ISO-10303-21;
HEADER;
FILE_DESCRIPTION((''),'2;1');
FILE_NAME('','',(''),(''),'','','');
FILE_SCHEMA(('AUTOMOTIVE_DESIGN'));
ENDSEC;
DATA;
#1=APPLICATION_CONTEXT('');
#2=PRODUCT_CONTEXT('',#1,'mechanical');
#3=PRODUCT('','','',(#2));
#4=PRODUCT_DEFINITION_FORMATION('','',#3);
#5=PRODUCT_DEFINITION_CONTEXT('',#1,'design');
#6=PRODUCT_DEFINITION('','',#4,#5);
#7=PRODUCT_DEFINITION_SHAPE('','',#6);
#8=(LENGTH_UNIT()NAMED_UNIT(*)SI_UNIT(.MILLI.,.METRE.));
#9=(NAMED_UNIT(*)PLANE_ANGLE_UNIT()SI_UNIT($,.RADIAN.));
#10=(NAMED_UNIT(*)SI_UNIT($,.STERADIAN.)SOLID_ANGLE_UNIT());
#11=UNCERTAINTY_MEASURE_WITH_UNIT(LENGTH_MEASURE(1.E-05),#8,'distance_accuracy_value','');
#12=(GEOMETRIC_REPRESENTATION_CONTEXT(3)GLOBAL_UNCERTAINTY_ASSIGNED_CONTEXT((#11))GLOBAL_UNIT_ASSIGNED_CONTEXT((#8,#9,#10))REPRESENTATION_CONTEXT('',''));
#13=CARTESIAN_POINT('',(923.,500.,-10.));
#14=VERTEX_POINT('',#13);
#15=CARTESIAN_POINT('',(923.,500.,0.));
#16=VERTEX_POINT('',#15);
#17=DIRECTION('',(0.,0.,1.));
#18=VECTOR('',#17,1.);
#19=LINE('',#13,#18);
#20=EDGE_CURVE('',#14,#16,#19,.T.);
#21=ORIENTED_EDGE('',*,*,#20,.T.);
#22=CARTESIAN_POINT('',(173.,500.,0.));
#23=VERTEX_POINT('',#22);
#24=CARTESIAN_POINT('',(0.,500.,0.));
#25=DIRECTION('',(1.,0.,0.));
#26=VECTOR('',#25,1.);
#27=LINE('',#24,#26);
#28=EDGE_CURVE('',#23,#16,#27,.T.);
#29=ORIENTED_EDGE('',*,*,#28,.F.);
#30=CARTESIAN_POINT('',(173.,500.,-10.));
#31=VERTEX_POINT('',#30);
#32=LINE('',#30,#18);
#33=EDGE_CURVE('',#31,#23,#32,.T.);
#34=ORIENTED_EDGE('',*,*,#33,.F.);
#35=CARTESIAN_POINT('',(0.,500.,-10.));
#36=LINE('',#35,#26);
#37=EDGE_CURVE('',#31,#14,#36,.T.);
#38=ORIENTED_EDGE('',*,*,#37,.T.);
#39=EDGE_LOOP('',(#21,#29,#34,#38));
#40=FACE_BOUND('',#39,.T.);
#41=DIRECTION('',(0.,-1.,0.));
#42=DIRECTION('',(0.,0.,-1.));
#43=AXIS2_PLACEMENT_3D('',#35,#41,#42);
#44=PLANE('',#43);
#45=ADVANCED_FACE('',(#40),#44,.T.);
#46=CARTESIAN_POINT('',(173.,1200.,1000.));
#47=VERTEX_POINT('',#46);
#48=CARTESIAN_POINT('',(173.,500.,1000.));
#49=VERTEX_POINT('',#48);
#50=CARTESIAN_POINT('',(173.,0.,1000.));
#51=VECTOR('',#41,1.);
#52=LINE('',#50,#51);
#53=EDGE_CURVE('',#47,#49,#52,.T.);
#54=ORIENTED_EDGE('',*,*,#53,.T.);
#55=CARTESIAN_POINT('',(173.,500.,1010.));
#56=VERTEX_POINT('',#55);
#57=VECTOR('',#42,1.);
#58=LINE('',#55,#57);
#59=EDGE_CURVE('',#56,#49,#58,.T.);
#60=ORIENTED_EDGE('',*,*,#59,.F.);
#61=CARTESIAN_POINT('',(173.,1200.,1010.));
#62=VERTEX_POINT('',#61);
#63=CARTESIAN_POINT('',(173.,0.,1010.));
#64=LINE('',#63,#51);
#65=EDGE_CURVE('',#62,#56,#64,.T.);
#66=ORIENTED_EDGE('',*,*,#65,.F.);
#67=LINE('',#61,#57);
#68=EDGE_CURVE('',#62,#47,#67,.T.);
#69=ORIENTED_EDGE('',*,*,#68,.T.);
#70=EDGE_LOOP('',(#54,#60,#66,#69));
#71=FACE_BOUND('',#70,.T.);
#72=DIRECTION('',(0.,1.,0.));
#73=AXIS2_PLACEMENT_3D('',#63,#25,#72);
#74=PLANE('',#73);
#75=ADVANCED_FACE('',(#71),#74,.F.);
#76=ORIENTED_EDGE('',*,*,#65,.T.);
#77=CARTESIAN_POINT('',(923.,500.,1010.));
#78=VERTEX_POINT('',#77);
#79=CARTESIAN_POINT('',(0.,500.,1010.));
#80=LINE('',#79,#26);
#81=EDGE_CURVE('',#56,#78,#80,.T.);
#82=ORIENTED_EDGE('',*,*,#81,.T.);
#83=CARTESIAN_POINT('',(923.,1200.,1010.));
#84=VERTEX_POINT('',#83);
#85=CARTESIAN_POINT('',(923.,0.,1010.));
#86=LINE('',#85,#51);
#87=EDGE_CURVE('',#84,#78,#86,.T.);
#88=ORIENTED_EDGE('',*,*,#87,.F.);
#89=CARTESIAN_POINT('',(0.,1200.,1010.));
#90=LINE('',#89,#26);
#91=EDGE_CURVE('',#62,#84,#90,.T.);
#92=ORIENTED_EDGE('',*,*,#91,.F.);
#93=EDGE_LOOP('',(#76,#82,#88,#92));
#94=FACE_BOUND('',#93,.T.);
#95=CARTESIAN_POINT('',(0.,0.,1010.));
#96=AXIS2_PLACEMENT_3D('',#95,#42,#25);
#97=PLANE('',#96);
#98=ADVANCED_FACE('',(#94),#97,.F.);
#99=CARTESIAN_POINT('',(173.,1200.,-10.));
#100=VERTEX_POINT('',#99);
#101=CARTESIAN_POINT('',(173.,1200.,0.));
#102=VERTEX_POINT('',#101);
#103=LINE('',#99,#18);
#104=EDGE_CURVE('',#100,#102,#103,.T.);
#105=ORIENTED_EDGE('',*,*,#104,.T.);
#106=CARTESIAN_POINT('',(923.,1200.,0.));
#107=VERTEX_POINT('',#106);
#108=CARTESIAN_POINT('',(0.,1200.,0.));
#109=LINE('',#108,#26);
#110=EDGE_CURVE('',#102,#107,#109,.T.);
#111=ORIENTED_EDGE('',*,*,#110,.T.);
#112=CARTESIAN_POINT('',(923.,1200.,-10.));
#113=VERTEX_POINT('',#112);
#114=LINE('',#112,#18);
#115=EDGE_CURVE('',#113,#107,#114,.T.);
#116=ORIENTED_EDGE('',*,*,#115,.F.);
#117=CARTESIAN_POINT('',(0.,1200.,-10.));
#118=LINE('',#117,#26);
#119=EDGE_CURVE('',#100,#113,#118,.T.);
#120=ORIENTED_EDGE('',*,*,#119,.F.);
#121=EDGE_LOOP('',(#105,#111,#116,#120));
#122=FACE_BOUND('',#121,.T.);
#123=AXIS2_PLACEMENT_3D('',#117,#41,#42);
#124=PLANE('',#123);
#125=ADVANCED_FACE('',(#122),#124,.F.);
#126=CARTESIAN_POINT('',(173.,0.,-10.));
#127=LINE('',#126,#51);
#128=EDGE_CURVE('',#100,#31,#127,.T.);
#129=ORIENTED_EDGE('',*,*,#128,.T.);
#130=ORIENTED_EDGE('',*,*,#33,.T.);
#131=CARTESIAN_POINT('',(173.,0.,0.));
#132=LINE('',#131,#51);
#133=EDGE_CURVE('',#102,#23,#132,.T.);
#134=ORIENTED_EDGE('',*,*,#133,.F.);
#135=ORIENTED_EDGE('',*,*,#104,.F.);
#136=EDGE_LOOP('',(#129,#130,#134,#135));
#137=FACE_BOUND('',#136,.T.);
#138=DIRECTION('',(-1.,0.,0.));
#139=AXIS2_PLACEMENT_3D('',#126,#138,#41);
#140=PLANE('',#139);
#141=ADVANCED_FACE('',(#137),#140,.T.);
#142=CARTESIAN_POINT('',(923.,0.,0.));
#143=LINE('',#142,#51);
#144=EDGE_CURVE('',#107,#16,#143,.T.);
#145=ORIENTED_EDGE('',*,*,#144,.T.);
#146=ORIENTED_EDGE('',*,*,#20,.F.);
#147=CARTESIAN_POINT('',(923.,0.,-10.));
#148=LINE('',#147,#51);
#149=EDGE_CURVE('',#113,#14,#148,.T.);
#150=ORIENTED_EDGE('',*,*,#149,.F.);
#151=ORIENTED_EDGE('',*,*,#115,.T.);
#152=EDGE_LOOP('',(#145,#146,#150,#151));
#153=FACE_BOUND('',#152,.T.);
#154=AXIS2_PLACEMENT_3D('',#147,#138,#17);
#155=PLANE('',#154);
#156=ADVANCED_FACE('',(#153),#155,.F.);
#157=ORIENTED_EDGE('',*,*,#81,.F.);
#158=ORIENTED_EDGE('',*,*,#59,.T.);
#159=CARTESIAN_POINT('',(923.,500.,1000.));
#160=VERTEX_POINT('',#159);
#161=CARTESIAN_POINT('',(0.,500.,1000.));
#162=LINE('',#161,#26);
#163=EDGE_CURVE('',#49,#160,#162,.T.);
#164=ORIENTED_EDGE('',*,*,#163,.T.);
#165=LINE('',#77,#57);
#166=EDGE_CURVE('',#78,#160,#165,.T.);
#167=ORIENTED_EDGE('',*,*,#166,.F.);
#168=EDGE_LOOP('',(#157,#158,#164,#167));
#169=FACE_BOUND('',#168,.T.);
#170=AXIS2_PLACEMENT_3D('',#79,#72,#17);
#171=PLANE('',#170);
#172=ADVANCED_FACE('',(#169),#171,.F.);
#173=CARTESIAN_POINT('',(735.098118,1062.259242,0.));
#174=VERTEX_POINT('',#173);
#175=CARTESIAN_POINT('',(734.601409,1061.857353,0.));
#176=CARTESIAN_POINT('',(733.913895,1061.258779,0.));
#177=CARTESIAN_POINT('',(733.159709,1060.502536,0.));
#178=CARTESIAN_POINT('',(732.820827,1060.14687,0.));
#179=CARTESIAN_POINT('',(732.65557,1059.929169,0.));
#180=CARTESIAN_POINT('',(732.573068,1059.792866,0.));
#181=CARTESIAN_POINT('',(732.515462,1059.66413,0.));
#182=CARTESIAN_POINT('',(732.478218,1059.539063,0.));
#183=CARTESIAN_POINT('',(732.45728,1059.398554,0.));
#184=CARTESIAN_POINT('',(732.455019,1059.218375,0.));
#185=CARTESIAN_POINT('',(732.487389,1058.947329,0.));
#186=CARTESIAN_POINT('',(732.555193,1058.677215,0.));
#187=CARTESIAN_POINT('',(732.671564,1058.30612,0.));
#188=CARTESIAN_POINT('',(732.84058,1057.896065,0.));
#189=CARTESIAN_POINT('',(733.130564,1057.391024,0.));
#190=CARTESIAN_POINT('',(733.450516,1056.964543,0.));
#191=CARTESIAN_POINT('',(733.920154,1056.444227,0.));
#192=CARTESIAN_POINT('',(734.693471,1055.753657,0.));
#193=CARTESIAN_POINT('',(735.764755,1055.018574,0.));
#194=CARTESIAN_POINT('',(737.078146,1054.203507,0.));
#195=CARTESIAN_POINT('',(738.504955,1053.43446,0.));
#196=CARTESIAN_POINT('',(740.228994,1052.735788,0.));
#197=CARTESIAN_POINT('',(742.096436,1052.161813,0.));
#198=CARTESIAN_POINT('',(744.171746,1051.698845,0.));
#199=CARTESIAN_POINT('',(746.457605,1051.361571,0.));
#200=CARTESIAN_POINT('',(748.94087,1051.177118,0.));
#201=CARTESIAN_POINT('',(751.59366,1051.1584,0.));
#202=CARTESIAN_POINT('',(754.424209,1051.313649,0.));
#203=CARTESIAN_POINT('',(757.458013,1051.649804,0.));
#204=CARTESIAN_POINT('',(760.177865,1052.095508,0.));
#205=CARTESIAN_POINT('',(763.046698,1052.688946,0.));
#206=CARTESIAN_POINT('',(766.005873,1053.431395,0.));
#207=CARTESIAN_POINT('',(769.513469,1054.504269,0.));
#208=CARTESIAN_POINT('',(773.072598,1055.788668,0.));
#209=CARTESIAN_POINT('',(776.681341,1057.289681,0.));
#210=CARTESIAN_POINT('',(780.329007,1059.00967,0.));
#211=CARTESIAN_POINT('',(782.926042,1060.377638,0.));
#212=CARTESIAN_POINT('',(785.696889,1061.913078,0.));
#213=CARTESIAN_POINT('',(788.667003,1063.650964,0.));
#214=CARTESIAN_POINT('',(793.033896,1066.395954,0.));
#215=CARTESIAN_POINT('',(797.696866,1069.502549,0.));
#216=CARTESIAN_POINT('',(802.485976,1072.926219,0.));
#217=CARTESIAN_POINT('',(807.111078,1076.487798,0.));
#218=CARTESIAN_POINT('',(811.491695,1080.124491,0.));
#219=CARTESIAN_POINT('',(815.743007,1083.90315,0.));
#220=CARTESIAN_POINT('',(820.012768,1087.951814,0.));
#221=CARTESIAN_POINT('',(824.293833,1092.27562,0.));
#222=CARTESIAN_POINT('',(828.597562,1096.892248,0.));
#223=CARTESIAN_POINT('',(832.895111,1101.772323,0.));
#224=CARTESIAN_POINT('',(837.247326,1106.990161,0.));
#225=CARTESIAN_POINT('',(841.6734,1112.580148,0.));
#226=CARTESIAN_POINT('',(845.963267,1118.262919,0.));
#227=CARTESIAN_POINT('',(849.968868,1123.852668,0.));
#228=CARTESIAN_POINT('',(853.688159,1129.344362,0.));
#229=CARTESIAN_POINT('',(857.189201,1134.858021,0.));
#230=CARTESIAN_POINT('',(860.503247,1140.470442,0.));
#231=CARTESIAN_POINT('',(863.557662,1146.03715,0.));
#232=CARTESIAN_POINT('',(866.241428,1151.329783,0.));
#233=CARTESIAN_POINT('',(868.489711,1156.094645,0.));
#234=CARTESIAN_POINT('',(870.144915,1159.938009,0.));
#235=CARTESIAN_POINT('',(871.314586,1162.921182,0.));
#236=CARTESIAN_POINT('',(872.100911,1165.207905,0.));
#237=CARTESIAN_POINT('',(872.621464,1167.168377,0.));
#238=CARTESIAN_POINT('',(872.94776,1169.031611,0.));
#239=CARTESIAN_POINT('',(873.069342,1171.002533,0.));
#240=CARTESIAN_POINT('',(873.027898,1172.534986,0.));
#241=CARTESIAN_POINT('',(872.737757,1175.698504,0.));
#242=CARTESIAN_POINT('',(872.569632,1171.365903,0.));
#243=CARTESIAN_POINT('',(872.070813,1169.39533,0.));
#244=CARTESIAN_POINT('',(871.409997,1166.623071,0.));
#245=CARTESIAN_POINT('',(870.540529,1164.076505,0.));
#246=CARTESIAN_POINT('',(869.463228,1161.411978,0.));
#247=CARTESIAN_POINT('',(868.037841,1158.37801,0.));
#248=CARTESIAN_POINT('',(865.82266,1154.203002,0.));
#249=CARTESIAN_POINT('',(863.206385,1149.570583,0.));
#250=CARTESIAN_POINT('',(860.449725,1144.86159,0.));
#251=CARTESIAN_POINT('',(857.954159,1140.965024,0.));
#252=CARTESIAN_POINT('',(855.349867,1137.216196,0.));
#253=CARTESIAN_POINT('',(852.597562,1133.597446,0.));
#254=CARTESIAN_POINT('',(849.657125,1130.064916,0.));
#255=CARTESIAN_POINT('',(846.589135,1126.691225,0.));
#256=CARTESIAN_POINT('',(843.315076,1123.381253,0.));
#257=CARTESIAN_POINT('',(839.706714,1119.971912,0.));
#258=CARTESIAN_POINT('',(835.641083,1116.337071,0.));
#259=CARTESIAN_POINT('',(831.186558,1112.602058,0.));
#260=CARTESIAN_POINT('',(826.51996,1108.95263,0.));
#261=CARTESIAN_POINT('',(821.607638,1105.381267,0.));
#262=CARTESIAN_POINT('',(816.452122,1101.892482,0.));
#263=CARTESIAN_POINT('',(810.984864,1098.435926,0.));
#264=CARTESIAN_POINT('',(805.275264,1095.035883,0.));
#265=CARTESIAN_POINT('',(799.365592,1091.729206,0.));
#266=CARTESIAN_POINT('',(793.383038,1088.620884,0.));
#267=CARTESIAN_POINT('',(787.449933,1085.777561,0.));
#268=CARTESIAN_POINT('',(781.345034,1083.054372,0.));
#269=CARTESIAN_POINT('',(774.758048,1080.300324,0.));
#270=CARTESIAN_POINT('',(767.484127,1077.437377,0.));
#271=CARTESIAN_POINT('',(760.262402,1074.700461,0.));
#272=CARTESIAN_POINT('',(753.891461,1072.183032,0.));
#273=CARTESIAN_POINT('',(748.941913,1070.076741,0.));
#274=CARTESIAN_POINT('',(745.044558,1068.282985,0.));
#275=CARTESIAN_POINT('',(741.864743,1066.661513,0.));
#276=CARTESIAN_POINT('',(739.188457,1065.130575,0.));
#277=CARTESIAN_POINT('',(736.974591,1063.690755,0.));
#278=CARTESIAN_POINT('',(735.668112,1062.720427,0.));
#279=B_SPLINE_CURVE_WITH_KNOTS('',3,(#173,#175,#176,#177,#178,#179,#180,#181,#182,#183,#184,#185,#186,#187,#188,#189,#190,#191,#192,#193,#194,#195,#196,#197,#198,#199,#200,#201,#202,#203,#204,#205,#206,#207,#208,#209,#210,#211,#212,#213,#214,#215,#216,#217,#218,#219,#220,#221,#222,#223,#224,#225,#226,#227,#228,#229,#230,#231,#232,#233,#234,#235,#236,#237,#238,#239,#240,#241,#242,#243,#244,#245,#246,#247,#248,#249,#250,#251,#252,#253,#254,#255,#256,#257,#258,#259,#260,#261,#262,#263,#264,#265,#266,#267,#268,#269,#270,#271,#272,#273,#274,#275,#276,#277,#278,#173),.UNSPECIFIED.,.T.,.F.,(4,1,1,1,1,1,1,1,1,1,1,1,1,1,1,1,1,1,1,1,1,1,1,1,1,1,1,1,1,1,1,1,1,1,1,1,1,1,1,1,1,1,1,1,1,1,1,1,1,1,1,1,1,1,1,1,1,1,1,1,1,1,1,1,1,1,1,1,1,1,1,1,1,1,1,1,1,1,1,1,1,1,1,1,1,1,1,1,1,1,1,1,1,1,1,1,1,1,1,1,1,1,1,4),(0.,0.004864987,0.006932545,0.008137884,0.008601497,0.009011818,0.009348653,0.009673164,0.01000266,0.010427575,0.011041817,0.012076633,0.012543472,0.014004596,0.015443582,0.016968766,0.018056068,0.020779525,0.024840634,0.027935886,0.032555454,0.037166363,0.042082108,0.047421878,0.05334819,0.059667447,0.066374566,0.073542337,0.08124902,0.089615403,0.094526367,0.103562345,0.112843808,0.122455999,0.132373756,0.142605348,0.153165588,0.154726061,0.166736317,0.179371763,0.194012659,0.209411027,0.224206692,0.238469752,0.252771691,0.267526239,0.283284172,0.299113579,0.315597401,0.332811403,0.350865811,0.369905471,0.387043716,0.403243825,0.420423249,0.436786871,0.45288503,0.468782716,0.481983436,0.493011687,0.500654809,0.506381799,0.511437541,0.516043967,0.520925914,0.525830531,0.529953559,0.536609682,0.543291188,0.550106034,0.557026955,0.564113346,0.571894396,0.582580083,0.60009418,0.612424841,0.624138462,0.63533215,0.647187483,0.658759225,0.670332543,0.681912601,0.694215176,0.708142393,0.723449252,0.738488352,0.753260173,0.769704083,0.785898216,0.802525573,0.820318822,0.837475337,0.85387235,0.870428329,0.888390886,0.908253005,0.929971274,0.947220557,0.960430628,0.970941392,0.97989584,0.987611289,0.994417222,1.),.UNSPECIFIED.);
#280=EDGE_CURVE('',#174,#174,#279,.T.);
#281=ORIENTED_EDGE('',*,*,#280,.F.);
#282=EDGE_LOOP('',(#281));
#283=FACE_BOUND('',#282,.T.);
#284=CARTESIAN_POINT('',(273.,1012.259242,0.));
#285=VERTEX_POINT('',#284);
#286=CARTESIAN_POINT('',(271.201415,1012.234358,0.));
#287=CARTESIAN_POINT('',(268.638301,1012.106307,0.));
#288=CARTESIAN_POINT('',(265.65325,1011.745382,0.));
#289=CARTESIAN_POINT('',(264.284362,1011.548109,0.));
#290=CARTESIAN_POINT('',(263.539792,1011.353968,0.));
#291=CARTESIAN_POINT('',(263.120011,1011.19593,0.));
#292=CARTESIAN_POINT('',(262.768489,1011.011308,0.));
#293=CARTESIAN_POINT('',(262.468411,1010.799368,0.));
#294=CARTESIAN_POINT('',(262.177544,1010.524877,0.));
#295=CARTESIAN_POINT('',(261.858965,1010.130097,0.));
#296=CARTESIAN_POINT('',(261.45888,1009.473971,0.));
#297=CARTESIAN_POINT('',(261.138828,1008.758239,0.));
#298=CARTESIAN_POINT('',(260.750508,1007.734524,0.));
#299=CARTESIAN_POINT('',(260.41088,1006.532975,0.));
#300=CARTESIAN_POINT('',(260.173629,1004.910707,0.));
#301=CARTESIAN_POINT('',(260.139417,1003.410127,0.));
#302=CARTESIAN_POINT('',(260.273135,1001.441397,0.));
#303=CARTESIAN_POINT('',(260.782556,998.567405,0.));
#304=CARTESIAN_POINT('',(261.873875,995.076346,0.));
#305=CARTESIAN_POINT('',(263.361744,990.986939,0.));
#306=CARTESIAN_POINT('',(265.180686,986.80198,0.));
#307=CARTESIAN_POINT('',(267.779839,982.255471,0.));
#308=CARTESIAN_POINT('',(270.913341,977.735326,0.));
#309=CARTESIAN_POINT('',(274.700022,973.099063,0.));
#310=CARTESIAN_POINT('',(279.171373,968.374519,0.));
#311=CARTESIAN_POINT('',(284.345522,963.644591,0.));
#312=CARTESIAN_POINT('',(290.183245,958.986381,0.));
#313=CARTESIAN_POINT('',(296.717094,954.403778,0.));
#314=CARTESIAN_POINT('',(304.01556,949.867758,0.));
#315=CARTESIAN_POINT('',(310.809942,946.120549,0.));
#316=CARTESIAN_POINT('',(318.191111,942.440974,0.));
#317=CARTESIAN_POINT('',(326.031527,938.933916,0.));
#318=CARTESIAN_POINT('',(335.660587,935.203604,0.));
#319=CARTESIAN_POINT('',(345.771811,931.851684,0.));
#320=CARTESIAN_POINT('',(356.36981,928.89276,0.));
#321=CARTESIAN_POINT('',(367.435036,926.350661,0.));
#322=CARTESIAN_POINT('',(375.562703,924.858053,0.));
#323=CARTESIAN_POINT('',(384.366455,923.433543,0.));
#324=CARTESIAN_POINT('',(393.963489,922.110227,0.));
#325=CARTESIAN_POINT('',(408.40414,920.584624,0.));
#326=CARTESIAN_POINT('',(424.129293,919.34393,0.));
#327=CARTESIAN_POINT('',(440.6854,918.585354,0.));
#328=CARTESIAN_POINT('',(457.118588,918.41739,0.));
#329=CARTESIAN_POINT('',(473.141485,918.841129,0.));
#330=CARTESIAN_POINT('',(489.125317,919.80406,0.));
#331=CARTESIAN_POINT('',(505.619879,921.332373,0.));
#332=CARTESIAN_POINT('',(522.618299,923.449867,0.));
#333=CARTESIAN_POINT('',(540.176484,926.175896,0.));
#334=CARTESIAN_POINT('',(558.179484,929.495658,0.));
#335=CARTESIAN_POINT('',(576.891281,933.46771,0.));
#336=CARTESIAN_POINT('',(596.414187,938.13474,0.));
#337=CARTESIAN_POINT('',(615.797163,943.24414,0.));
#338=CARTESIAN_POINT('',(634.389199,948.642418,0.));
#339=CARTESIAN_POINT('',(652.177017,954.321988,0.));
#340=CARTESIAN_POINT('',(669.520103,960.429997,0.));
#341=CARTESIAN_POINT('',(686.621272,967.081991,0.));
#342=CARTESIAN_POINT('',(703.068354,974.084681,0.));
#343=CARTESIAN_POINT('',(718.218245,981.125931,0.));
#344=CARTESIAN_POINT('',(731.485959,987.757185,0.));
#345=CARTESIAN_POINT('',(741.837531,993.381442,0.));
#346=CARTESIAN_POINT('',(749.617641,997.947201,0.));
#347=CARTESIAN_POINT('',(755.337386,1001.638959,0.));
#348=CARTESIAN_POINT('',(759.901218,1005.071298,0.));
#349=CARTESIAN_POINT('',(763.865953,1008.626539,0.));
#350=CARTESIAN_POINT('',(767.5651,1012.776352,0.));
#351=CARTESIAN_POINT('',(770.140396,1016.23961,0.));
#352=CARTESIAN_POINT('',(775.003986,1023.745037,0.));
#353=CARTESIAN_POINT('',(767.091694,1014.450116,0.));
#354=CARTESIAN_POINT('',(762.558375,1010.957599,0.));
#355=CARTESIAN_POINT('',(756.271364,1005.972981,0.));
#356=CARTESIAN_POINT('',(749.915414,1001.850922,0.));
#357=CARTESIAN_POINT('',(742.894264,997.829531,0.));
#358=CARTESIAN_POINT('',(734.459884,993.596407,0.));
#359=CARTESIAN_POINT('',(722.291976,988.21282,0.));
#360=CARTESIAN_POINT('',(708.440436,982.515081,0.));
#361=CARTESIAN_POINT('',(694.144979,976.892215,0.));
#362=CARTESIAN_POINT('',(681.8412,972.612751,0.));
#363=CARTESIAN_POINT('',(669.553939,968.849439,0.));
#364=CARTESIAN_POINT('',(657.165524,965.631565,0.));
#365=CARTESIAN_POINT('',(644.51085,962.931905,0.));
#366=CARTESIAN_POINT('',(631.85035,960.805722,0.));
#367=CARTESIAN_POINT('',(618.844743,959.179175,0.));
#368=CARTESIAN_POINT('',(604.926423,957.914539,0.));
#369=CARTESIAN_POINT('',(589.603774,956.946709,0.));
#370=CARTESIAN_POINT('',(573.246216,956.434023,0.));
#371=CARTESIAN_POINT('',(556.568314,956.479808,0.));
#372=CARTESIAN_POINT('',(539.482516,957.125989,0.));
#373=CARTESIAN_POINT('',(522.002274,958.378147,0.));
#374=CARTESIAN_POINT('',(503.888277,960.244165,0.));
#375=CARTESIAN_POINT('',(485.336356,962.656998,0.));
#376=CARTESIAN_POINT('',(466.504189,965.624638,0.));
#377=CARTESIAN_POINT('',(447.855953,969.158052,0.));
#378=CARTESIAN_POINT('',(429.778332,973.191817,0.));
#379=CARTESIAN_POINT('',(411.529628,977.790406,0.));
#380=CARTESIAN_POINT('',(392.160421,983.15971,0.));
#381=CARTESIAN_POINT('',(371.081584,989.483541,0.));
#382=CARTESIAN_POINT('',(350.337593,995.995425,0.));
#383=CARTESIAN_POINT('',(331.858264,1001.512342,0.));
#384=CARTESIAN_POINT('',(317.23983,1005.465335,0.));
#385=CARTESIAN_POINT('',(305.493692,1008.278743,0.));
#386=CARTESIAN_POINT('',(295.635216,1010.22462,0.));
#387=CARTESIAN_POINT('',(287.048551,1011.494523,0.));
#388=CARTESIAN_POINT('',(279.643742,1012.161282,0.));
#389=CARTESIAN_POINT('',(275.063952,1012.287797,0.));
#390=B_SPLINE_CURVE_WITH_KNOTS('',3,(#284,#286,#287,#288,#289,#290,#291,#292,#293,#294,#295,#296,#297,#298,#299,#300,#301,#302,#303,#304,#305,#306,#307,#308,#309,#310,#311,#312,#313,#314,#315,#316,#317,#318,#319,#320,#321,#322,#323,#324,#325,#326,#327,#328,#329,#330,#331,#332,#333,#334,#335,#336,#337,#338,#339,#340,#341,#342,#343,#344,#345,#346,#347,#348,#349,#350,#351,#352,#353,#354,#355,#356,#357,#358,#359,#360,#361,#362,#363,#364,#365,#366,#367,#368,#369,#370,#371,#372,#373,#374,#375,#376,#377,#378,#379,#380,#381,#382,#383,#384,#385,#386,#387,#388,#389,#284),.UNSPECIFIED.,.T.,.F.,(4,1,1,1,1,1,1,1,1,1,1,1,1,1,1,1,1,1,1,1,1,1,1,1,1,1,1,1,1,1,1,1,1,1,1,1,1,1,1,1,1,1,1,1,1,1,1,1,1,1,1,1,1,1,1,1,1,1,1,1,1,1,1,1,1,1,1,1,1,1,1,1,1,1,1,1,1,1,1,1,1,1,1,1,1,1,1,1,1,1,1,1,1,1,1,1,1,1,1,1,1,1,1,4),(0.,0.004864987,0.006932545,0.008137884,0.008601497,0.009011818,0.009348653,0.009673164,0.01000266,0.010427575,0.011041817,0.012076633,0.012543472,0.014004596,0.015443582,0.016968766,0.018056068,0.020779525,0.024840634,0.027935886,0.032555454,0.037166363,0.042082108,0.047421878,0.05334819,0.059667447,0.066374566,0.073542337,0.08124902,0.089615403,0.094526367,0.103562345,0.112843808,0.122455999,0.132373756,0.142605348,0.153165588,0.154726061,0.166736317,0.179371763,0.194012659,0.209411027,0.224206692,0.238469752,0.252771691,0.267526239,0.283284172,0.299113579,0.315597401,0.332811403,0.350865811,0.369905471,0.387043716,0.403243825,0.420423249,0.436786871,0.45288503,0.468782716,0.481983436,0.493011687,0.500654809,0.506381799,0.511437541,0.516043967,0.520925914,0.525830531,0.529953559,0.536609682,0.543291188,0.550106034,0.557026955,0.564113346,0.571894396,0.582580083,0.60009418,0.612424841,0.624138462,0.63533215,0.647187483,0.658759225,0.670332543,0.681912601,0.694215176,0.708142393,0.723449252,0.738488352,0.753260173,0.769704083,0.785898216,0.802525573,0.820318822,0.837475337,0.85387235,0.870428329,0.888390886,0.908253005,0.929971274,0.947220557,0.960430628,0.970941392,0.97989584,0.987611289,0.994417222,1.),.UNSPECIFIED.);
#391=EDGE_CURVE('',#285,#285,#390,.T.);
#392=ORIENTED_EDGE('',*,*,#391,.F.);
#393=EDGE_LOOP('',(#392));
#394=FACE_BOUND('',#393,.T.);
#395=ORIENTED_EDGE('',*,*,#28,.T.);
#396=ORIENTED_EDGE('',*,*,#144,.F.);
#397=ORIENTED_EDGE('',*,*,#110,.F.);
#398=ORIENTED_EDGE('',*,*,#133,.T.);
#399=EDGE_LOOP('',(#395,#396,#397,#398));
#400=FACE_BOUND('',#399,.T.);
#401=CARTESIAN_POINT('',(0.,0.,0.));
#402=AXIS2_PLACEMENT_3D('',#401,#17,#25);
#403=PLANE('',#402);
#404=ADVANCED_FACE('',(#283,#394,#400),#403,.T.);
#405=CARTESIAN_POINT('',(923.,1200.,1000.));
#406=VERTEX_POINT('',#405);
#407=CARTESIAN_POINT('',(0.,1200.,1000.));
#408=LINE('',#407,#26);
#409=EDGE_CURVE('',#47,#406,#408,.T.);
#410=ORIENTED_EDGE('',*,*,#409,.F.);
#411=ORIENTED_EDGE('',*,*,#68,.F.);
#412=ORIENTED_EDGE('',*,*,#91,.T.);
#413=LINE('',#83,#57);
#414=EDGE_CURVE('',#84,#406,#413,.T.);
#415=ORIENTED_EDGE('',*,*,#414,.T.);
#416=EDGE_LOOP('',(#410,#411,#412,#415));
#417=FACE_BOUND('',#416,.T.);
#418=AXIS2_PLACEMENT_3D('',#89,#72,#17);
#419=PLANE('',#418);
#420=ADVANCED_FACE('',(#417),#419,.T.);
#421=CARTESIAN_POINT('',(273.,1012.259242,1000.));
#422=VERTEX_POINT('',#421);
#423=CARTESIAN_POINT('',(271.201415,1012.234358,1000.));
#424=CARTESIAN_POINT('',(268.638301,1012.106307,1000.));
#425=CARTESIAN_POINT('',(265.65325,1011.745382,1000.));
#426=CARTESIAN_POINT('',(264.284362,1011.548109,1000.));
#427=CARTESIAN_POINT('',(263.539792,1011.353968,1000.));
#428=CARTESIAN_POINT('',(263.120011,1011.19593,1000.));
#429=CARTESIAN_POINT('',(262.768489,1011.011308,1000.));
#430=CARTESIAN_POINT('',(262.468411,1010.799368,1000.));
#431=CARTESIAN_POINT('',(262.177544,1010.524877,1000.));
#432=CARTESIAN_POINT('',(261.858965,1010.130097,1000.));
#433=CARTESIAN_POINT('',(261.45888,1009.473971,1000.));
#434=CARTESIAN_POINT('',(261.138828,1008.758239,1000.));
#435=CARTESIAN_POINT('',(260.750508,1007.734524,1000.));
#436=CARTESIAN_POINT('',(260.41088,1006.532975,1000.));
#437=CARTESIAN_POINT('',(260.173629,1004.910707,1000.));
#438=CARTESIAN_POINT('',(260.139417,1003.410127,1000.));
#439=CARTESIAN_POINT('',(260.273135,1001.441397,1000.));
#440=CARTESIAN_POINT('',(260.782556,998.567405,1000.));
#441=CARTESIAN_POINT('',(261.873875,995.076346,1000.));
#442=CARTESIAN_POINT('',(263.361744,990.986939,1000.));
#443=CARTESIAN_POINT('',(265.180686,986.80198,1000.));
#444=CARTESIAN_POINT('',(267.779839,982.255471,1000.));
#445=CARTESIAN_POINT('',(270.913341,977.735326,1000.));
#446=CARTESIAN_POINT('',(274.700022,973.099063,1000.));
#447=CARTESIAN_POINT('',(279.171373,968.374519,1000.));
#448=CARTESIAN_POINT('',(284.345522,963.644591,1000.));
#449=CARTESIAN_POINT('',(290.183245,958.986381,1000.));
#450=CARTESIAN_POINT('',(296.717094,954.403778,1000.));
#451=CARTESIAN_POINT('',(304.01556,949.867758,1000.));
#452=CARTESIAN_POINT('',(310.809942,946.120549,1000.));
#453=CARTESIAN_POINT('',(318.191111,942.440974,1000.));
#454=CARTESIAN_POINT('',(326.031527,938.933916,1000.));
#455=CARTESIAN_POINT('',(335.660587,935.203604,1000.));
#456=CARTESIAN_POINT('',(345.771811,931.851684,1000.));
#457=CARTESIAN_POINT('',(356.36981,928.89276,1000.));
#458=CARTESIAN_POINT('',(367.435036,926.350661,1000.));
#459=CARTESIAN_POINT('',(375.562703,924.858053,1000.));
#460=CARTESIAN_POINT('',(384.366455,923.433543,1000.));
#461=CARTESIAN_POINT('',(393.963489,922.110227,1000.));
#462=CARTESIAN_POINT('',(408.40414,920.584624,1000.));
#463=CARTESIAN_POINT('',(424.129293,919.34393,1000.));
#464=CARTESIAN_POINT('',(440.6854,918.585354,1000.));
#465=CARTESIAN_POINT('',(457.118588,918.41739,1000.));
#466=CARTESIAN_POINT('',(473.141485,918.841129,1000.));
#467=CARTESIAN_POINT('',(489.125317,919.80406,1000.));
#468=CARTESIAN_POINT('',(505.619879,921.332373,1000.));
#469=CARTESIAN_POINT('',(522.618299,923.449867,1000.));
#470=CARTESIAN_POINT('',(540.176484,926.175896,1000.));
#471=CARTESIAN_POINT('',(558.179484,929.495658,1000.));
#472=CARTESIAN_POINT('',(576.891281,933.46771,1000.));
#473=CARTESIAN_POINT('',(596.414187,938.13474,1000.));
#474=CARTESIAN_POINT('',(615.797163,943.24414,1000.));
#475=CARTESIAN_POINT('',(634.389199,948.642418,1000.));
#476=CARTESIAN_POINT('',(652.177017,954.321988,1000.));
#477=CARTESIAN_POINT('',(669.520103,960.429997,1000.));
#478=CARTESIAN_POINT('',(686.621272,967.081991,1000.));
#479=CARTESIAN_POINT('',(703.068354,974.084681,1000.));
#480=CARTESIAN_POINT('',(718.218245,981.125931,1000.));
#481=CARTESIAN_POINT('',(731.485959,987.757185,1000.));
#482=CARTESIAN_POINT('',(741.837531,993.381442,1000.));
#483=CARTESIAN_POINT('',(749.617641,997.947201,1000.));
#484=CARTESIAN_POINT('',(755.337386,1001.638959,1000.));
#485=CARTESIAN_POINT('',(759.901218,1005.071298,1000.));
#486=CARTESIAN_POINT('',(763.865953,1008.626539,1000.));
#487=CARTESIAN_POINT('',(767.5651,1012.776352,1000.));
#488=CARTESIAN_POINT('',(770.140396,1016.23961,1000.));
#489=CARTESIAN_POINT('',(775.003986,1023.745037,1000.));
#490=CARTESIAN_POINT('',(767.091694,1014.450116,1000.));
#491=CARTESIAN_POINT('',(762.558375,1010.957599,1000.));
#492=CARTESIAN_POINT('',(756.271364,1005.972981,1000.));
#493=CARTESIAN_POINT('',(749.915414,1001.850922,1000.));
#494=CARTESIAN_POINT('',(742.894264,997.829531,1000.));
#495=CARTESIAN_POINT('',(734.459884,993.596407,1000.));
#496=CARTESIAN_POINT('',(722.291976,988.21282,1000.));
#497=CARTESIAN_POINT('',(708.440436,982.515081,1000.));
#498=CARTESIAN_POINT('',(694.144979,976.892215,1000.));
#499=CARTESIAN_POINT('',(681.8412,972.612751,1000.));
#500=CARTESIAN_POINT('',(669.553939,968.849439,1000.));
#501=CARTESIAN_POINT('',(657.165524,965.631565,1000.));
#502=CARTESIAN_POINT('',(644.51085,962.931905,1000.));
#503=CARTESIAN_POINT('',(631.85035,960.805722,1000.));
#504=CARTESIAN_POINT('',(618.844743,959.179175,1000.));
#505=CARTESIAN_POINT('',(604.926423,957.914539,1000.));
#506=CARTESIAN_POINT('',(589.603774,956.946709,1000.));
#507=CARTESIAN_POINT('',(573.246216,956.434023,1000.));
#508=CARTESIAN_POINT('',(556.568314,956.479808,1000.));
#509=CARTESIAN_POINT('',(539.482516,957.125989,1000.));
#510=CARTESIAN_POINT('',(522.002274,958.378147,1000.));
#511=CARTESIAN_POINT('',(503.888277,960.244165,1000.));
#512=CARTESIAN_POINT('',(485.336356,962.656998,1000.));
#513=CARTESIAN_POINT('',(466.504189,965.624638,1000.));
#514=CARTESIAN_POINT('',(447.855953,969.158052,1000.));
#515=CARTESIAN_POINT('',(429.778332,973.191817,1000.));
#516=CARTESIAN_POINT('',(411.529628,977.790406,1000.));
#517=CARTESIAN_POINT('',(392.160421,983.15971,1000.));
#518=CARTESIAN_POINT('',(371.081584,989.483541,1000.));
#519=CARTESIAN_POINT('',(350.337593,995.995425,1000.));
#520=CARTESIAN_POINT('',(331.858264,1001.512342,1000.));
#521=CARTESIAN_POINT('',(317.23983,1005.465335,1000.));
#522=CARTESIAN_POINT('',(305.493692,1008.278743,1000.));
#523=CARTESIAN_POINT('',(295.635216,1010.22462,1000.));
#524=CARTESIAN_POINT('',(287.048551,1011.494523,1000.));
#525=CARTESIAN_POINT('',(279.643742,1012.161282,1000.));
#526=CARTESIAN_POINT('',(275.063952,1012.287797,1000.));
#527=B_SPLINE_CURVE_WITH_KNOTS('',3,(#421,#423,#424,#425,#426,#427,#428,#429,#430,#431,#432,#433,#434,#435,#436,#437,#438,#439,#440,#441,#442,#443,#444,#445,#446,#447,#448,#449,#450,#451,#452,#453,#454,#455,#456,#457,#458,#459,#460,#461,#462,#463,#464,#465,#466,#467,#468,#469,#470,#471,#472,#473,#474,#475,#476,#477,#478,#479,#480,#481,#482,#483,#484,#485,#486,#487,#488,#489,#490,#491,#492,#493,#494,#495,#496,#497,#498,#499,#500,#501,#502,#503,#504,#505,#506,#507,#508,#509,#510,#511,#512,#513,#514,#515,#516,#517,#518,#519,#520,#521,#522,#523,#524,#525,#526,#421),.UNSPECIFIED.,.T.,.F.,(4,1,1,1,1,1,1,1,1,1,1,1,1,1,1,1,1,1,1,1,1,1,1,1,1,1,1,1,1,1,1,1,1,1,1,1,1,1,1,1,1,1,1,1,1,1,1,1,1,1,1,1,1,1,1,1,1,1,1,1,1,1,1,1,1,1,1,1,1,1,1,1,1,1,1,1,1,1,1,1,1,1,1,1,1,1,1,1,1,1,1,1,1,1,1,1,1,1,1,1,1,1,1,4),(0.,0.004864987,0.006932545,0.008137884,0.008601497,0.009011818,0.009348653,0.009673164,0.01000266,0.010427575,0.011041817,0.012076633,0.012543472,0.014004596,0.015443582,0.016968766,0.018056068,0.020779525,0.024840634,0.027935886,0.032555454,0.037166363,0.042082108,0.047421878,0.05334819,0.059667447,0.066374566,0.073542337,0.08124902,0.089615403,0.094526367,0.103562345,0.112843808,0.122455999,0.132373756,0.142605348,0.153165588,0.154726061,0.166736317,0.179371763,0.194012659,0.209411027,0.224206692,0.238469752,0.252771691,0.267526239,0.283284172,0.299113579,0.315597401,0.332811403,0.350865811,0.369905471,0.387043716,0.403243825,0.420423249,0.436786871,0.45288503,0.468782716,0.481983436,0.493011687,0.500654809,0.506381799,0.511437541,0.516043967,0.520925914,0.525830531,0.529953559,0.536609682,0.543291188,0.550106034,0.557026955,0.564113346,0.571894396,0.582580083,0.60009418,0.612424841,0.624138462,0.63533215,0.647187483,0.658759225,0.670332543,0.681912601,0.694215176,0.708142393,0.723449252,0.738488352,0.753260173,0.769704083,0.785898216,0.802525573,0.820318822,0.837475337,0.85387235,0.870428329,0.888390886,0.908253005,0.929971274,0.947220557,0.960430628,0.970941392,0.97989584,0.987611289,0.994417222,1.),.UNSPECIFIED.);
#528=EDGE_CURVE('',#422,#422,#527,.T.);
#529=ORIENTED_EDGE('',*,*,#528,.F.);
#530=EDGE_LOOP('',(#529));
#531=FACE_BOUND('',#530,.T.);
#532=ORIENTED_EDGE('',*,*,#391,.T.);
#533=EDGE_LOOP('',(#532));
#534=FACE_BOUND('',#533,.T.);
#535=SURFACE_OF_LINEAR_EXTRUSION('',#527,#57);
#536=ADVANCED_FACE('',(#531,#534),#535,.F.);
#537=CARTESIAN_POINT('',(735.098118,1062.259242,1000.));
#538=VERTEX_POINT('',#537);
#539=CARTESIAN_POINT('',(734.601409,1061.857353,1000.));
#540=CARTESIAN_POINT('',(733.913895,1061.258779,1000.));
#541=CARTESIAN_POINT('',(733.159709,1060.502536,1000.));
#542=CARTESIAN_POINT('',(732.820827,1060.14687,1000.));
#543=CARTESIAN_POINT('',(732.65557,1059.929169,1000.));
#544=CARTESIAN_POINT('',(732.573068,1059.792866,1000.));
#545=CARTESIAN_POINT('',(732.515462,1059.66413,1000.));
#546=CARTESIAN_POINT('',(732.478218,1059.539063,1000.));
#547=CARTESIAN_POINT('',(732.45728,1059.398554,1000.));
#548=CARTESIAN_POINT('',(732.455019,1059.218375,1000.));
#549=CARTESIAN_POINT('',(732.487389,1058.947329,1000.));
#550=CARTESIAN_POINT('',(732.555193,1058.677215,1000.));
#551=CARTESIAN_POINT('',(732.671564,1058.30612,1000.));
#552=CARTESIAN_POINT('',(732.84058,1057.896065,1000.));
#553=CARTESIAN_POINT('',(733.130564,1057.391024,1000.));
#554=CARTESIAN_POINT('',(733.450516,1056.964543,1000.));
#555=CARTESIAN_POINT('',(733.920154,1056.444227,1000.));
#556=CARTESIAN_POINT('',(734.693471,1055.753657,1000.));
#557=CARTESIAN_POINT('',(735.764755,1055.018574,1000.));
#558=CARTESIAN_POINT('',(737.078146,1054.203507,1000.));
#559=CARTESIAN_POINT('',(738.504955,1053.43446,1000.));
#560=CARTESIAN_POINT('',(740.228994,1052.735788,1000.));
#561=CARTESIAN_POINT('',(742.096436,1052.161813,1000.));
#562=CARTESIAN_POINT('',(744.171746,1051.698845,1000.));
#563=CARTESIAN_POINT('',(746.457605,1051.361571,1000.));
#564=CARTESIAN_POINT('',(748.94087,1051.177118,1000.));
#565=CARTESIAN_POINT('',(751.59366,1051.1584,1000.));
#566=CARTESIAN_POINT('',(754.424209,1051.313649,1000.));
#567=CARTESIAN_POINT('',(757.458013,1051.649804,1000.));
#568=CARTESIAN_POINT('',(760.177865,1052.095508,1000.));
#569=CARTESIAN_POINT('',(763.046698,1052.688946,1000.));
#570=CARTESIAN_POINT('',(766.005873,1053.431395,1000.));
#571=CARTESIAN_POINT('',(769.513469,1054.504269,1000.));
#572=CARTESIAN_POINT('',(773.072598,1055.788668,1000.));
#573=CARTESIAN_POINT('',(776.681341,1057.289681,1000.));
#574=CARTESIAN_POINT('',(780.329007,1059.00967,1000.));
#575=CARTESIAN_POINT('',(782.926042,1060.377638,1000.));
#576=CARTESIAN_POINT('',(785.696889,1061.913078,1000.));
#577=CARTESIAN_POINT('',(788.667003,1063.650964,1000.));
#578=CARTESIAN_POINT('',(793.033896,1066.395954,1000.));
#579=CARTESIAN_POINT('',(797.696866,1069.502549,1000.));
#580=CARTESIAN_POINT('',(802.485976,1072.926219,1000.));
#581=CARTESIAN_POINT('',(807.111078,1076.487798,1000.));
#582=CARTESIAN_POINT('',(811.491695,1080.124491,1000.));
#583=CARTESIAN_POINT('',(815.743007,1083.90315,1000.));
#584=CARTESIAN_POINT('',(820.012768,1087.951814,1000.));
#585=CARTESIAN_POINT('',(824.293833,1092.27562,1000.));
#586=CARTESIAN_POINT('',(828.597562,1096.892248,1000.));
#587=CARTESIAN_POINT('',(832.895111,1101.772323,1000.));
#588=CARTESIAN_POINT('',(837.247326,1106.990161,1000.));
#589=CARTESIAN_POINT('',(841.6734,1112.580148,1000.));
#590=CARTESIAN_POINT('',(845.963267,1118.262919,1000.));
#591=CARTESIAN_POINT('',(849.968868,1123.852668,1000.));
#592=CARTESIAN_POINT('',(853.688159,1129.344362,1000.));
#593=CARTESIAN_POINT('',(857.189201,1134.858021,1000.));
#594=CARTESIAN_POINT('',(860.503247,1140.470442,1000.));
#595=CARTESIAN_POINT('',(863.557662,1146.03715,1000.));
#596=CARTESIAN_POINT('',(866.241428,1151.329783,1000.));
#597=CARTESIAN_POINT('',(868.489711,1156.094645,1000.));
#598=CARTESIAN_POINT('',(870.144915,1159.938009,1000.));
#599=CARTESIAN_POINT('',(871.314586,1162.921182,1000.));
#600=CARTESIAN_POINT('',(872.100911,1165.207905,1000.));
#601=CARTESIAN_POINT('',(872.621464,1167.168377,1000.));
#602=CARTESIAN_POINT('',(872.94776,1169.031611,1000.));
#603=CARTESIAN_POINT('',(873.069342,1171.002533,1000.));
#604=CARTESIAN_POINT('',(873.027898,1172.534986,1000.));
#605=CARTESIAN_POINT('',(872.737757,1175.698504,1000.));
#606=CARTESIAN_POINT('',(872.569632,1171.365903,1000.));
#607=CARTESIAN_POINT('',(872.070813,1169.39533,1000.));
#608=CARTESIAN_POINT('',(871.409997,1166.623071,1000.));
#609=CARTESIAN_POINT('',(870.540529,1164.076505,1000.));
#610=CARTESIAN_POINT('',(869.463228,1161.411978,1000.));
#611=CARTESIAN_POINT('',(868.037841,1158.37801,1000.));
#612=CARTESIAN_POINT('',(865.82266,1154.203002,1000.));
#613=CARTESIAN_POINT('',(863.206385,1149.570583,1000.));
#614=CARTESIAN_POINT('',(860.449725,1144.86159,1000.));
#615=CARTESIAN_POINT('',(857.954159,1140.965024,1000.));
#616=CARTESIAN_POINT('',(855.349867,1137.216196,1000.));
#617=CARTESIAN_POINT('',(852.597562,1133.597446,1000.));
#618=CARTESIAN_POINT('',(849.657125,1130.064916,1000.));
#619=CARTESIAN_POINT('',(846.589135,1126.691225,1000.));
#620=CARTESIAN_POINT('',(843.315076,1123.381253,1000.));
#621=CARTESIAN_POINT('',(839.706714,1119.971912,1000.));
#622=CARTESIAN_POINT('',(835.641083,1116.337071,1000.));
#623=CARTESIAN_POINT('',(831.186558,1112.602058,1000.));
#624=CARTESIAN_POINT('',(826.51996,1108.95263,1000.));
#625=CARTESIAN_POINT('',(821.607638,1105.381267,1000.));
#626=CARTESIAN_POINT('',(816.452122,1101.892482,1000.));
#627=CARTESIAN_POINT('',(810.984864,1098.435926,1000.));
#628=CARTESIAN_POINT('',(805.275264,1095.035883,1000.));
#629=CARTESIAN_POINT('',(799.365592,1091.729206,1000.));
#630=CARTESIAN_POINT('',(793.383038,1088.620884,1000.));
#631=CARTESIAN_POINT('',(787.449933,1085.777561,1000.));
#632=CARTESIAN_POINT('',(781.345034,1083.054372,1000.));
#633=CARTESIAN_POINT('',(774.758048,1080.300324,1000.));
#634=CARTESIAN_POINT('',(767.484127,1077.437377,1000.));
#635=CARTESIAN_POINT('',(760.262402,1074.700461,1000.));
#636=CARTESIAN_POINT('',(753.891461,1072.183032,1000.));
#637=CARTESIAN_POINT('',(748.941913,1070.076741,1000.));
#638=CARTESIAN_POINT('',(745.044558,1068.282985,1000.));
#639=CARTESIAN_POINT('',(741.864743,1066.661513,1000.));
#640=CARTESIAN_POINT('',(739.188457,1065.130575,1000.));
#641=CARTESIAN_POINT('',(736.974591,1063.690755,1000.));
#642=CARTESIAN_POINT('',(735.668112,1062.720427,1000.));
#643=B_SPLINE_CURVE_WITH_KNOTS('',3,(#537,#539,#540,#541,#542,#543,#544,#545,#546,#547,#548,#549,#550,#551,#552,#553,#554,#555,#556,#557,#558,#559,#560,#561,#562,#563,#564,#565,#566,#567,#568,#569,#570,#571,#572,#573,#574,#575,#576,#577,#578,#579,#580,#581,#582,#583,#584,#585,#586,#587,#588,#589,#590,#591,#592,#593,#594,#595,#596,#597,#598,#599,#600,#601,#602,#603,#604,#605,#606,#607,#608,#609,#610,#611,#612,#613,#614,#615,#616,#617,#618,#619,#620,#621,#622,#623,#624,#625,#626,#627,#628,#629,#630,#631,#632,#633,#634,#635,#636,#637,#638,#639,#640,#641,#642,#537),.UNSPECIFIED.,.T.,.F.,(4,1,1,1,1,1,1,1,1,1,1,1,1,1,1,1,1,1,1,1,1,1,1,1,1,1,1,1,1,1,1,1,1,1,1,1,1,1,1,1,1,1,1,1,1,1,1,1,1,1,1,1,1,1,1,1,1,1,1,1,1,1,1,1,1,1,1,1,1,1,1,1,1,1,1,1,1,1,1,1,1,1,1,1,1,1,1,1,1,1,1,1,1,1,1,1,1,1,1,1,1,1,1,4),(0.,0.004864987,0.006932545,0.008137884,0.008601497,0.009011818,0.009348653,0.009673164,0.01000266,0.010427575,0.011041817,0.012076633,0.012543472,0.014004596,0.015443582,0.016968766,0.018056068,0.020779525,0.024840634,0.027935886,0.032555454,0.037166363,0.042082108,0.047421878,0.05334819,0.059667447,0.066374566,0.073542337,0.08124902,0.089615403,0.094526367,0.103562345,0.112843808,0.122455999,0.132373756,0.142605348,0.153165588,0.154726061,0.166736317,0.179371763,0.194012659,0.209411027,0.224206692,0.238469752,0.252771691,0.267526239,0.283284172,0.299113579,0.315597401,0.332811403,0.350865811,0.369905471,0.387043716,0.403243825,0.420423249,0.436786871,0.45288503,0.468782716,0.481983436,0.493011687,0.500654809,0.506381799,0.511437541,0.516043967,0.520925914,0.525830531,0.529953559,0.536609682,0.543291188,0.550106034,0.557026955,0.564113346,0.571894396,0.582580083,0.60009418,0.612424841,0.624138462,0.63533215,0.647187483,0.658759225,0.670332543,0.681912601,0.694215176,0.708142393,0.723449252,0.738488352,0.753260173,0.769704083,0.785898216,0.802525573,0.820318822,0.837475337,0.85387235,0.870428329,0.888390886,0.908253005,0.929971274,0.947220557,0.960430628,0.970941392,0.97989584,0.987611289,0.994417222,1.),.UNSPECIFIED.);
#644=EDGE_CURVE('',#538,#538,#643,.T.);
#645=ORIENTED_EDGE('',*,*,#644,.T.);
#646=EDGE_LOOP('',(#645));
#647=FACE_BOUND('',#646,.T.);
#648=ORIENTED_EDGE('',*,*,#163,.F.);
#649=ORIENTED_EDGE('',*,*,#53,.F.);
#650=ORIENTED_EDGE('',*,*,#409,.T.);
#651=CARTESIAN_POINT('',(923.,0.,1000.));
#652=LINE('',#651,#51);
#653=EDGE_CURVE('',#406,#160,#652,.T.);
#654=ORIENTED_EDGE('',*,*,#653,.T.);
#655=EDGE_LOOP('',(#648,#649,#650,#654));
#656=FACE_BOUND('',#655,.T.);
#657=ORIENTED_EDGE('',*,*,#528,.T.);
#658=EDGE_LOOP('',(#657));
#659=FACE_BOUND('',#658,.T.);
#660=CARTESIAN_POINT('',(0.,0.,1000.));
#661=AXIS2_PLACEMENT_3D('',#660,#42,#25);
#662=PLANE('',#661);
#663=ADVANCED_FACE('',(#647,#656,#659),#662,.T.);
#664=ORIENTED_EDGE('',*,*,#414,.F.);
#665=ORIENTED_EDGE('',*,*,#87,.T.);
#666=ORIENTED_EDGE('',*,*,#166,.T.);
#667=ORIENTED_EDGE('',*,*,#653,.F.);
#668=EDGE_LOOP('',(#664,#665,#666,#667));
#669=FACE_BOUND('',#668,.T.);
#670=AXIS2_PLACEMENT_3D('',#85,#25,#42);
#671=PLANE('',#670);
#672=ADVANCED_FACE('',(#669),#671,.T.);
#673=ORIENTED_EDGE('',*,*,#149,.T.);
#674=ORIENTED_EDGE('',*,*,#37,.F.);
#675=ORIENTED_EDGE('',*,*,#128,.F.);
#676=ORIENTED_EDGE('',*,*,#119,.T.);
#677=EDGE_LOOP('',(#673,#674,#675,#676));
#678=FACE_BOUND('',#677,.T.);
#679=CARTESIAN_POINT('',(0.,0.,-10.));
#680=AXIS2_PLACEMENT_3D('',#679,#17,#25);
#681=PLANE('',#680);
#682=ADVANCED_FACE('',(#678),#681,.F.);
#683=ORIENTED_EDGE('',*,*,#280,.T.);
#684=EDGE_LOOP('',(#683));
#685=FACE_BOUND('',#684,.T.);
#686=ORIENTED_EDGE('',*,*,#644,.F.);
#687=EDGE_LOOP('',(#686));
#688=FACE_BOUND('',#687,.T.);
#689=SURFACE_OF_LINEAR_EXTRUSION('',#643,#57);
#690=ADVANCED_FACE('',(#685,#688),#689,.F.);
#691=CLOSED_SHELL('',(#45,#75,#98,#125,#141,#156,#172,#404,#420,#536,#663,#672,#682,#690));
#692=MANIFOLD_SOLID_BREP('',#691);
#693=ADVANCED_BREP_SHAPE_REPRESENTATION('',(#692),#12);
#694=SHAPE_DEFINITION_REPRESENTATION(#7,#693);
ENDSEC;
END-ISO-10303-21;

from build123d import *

# Parameters (mm, degrees)
BOSS_EXTRUDE4_DEPTH   = 1000
BOSS_EXTRUDE4_2_DEPTH = 1000
SKETCH8_4_W           = 750
SKETCH8_4_H           = 700
BOSS_EXTRUDE6_DEPTH   = 10


with BuildPart() as part:
    # Sketch8 → Boss-Extrude4 (new body)
    with BuildSketch(Plane.XY):
        with BuildLine():
            add(Edge.make_bspline(
                [(735.098118119, 1062.259241818), (734.601409278, 1061.857352571), (733.913894671, 1061.258779434), (733.159708622, 1060.5025364), (732.820827239, 1060.146869878), (732.655570392, 1059.929168645), (732.573068322, 1059.792866332), (732.51546198, 1059.664130084), (732.478217652, 1059.539063198), (732.457280183, 1059.398554207), (732.455019211, 1059.218374618), (732.487388993, 1058.947328848), (732.555192641, 1058.677214817), (732.671564082, 1058.306120005), (732.840580219, 1057.896064811), (733.130564106, 1057.391023864), (733.450516164, 1056.964543005), (733.92015365, 1056.444226915), (734.693470711, 1055.753656785), (735.764754895, 1055.018574476), (737.078145767, 1054.203507323), (738.504955291, 1053.434459791), (740.228993812, 1052.73578844), (742.096436271, 1052.161812681), (744.171746462, 1051.698844663), (746.457605026, 1051.361571167), (748.940870175, 1051.177117957), (751.593659792, 1051.158399578), (754.424208971, 1051.31364925), (757.458013407, 1051.649803777), (760.17786487, 1052.095508262), (763.046698103, 1052.688946304), (766.005873398, 1053.431395181), (769.513468846, 1054.504269348), (773.072597893, 1055.7886681), (776.681340719, 1057.289681392), (780.329006893, 1059.009670046), (782.926041541, 1060.377638339), (785.696888614, 1061.913077581), (788.667003133, 1063.650963755), (793.033896011, 1066.395954055), (797.69686594, 1069.502549142), (802.485976439, 1072.926218586), (807.111077859, 1076.487798442), (811.491695414, 1080.124490735), (815.743007195, 1083.903149636), (820.012768163, 1087.95181423), (824.293833285, 1092.275620465), (828.597562446, 1096.892248082), (832.895111152, 1101.772323208), (837.247326341, 1106.990161336), (841.673400242, 1112.580147544), (845.963267492, 1118.262919017), (849.968867594, 1123.852668386), (853.688158888, 1129.344361564), (857.189200541, 1134.858020569), (860.503246924, 1140.470441622), (863.557661854, 1146.037150497), (866.241428188, 1151.329782553), (868.489711235, 1156.094644766), (870.144915492, 1159.938008884), (871.314586064, 1162.921181838), (872.100910965, 1165.207905314), (872.621464287, 1167.168377237), (872.947759511, 1169.031611186), (873.069342295, 1171.002533427), (873.027898115, 1172.534986125), (872.737757495, 1175.698504336), (872.56963235, 1171.365903117), (872.070813006, 1169.395329562), (871.409997142, 1166.623070983), (870.54052868, 1164.076504516), (869.463228002, 1161.41197751), (868.037840836, 1158.378010011), (865.822659935, 1154.203002295), (863.20638468, 1149.570582534), (860.449724759, 1144.861590264), (857.954159387, 1140.965023681), (855.349867209, 1137.216196327), (852.597562342, 1133.597445581), (849.657125195, 1130.064916079), (846.589134724, 1126.691224611), (843.315075993, 1123.381253499), (839.706713798, 1119.971912039), (835.641082992, 1116.337070731), (831.186557971, 1112.602057559), (826.519959747, 1108.95262959), (821.607637666, 1105.381266916), (816.452121825, 1101.892481871), (810.984864405, 1098.435926476), (805.275264371, 1095.03588268), (799.365591639, 1091.729205792), (793.383037543, 1088.620884002), (787.449932647, 1085.77756089), (781.34503369, 1083.054371724), (774.758048101, 1080.300324379), (767.484126813, 1077.437376941), (760.262402442, 1074.700461462), (753.89146132, 1072.183031963), (748.941913043, 1070.076741063), (745.044557852, 1068.282985183), (741.864742844, 1066.66151286), (739.188456537, 1065.130575403), (736.974590728, 1063.690754872), (735.668112419, 1062.720426643), (735.098118119, 1062.259241818)],
                knots=[0, 0, 0, 0, 0.004864987, 0.006932545, 0.008137884, 0.008601497, 0.009011818, 0.009348653, 0.009673164, 0.01000266, 0.010427575, 0.011041817, 0.012076633, 0.012543472, 0.014004596, 0.015443582, 0.016968766, 0.018056068, 0.020779525, 0.024840634, 0.027935886, 0.032555454, 0.037166363, 0.042082108, 0.047421878, 0.05334819, 0.059667447, 0.066374566, 0.073542337, 0.08124902, 0.089615403, 0.094526367, 0.103562345, 0.112843808, 0.122455999, 0.132373756, 0.142605348, 0.153165588, 0.154726061, 0.166736317, 0.179371763, 0.194012659, 0.209411027, 0.224206692, 0.238469752, 0.252771691, 0.267526239, 0.283284172, 0.299113579, 0.315597401, 0.332811403, 0.350865811, 0.369905471, 0.387043716, 0.403243825, 0.420423249, 0.436786871, 0.45288503, 0.468782716, 0.481983436, 0.493011687, 0.500654809, 0.506381799, 0.511437541, 0.516043967, 0.520925914, 0.525830531, 0.529953559, 0.536609682, 0.543291188, 0.550106034, 0.557026955, 0.564113346, 0.571894396, 0.582580083, 0.60009418, 0.612424841, 0.624138462, 0.63533215, 0.647187483, 0.658759225, 0.670332543, 0.681912601, 0.694215176, 0.708142393, 0.723449252, 0.738488352, 0.753260173, 0.769704083, 0.785898216, 0.802525573, 0.820318822, 0.837475337, 0.85387235, 0.870428329, 0.888390886, 0.908253005, 0.929971274, 0.947220557, 0.960430628, 0.970941392, 0.97989584, 0.987611289, 0.994417222, 1, 1, 1, 1], degree=3))
        make_face()
    extrude(amount=BOSS_EXTRUDE4_DEPTH)



with BuildPart() as body_2:
    # Sketch8 → Boss-Extrude4 2 (new body)
    with BuildSketch(Plane.XY):
        with BuildLine():
            add(Edge.make_bspline(
                [(273, 1012.259241818), (271.201415149, 1012.234358284), (268.638301196, 1012.10630654), (265.653250332, 1011.745382351), (264.284362196, 1011.548108706), (263.539792154, 1011.353967566), (263.120011119, 1011.195929843), (262.768488909, 1011.011307562), (262.46841133, 1010.799368061), (262.177544142, 1010.524877385), (261.858964948, 1010.130096837), (261.458880229, 1009.473970816), (261.138827884, 1008.758239213), (260.750508018, 1007.734524406), (260.410879649, 1006.532974719), (260.173629484, 1004.91070667), (260.139417442, 1003.410127333), (260.27313463, 1001.441396727), (260.78255566, 998.567405306), (261.873874691, 995.076346138), (263.361744472, 990.986939376), (265.180686227, 986.80198002), (267.779838812, 982.255471431), (270.913341047, 977.73532561), (274.700021761, 973.099063311), (279.171373055, 968.374519326), (284.345522139, 963.644591001), (290.183245149, 958.98638135), (296.717094047, 954.403777518), (304.01556017, 949.867758319), (310.809942199, 946.120548541), (318.191111112, 942.440974345), (326.031527311, 938.933915931), (335.66058673, 935.203604147), (345.771810983, 931.851683832), (356.369810057, 928.892759608), (367.435035994, 926.350660791), (375.56270322, 924.858052745), (384.366454556, 923.433542635), (393.963489381, 922.110227338), (408.404140054, 920.584624285), (424.129292769, 919.343930143), (440.685400214, 918.58535383), (457.118588273, 918.417389982), (473.141485477, 918.841128813), (489.125316682, 919.804059999), (505.619878679, 921.332372741), (522.618298741, 923.449867137), (540.176483884, 926.175896096), (558.179483876, 929.4956584), (576.891280693, 933.467710063), (596.414186543, 938.134739827), (615.79716274, 943.244139596), (634.38919922, 948.642417751), (652.177016954, 954.321987683), (669.520103149, 960.429996543), (686.621272384, 967.081991385), (703.068353621, 974.084680917), (718.218244575, 981.125930994), (731.485958784, 987.757185122), (741.837530826, 993.381442418), (749.617640535, 997.947201275), (755.33738571, 1001.638958927), (759.901218231, 1005.071297864), (763.865952974, 1008.626538537), (767.56509963, 1012.776351993), (770.140396094, 1016.239610207), (775.003986102, 1023.745036678), (767.091693749, 1014.450116045), (762.558375476, 1010.957598654), (756.271364407, 1005.972981165), (749.915414367, 1001.850921772), (742.894264123, 997.829531351), (734.45988441, 993.596407296), (722.291975763, 988.212819774), (708.440436227, 982.515080662), (694.144979431, 976.892214694), (681.841199806, 972.612751127), (669.553939318, 968.849439376), (657.165523926, 965.631565479), (644.510850096, 962.931905094), (631.850350445, 960.805721591), (618.84474275, 959.1791748), (604.926422901, 957.914539319), (589.603774286, 956.946708621), (573.246215926, 956.434022709), (556.568313851, 956.47980846), (539.482515985, 957.125989228), (522.00227417, 958.378146995), (503.888277237, 960.244165176), (485.336355769, 962.656998122), (466.504189143, 965.624637589), (447.855952684, 969.158051916), (429.77833229, 973.191816944), (411.529627983, 977.790405896), (392.160420714, 983.159709982), (371.081584088, 989.483541487), (350.33759286, 995.995425316), (331.858264003, 1001.512342352), (317.239829948, 1005.465334797), (305.493691746, 1008.278742569), (295.635216434, 1010.224620207), (287.048551222, 1011.494523185), (279.643741662, 1012.161282277), (275.063951815, 1012.287796721), (273, 1012.259241818)],
                knots=[0, 0, 0, 0, 0.004864987, 0.006932545, 0.008137884, 0.008601497, 0.009011818, 0.009348653, 0.009673164, 0.01000266, 0.010427575, 0.011041817, 0.012076633, 0.012543472, 0.014004596, 0.015443582, 0.016968766, 0.018056068, 0.020779525, 0.024840634, 0.027935886, 0.032555454, 0.037166363, 0.042082108, 0.047421878, 0.05334819, 0.059667447, 0.066374566, 0.073542337, 0.08124902, 0.089615403, 0.094526367, 0.103562345, 0.112843808, 0.122455999, 0.132373756, 0.142605348, 0.153165588, 0.154726061, 0.166736317, 0.179371763, 0.194012659, 0.209411027, 0.224206692, 0.238469752, 0.252771691, 0.267526239, 0.283284172, 0.299113579, 0.315597401, 0.332811403, 0.350865811, 0.369905471, 0.387043716, 0.403243825, 0.420423249, 0.436786871, 0.45288503, 0.468782716, 0.481983436, 0.493011687, 0.500654809, 0.506381799, 0.511437541, 0.516043967, 0.520925914, 0.525830531, 0.529953559, 0.536609682, 0.543291188, 0.550106034, 0.557026955, 0.564113346, 0.571894396, 0.582580083, 0.60009418, 0.612424841, 0.624138462, 0.63533215, 0.647187483, 0.658759225, 0.670332543, 0.681912601, 0.694215176, 0.708142393, 0.723449252, 0.738488352, 0.753260173, 0.769704083, 0.785898216, 0.802525573, 0.820318822, 0.837475337, 0.85387235, 0.870428329, 0.888390886, 0.908253005, 0.929971274, 0.947220557, 0.960430628, 0.970941392, 0.97989584, 0.987611289, 0.994417222, 1, 1, 1, 1], degree=3))
        make_face()
    extrude(amount=BOSS_EXTRUDE4_2_DEPTH)


with BuildPart() as part_1:
    add(part.part)

    add(body_2.part)  # Boss-Extrude6 merges body 2
    # Sketch8<4> → Boss-Extrude6 (add)
    with BuildSketch(Plane.XY):
        with Locations((548, 850)):
            Rectangle(SKETCH8_4_W, SKETCH8_4_H)
    boss_extrude6 = extrude(amount=-BOSS_EXTRUDE6_DEPTH)

    # Mirror1: Boss-Extrude6 across plane
    add(boss_extrude6.mirror(Plane.XY.offset(500)))


solid = part_1.part
